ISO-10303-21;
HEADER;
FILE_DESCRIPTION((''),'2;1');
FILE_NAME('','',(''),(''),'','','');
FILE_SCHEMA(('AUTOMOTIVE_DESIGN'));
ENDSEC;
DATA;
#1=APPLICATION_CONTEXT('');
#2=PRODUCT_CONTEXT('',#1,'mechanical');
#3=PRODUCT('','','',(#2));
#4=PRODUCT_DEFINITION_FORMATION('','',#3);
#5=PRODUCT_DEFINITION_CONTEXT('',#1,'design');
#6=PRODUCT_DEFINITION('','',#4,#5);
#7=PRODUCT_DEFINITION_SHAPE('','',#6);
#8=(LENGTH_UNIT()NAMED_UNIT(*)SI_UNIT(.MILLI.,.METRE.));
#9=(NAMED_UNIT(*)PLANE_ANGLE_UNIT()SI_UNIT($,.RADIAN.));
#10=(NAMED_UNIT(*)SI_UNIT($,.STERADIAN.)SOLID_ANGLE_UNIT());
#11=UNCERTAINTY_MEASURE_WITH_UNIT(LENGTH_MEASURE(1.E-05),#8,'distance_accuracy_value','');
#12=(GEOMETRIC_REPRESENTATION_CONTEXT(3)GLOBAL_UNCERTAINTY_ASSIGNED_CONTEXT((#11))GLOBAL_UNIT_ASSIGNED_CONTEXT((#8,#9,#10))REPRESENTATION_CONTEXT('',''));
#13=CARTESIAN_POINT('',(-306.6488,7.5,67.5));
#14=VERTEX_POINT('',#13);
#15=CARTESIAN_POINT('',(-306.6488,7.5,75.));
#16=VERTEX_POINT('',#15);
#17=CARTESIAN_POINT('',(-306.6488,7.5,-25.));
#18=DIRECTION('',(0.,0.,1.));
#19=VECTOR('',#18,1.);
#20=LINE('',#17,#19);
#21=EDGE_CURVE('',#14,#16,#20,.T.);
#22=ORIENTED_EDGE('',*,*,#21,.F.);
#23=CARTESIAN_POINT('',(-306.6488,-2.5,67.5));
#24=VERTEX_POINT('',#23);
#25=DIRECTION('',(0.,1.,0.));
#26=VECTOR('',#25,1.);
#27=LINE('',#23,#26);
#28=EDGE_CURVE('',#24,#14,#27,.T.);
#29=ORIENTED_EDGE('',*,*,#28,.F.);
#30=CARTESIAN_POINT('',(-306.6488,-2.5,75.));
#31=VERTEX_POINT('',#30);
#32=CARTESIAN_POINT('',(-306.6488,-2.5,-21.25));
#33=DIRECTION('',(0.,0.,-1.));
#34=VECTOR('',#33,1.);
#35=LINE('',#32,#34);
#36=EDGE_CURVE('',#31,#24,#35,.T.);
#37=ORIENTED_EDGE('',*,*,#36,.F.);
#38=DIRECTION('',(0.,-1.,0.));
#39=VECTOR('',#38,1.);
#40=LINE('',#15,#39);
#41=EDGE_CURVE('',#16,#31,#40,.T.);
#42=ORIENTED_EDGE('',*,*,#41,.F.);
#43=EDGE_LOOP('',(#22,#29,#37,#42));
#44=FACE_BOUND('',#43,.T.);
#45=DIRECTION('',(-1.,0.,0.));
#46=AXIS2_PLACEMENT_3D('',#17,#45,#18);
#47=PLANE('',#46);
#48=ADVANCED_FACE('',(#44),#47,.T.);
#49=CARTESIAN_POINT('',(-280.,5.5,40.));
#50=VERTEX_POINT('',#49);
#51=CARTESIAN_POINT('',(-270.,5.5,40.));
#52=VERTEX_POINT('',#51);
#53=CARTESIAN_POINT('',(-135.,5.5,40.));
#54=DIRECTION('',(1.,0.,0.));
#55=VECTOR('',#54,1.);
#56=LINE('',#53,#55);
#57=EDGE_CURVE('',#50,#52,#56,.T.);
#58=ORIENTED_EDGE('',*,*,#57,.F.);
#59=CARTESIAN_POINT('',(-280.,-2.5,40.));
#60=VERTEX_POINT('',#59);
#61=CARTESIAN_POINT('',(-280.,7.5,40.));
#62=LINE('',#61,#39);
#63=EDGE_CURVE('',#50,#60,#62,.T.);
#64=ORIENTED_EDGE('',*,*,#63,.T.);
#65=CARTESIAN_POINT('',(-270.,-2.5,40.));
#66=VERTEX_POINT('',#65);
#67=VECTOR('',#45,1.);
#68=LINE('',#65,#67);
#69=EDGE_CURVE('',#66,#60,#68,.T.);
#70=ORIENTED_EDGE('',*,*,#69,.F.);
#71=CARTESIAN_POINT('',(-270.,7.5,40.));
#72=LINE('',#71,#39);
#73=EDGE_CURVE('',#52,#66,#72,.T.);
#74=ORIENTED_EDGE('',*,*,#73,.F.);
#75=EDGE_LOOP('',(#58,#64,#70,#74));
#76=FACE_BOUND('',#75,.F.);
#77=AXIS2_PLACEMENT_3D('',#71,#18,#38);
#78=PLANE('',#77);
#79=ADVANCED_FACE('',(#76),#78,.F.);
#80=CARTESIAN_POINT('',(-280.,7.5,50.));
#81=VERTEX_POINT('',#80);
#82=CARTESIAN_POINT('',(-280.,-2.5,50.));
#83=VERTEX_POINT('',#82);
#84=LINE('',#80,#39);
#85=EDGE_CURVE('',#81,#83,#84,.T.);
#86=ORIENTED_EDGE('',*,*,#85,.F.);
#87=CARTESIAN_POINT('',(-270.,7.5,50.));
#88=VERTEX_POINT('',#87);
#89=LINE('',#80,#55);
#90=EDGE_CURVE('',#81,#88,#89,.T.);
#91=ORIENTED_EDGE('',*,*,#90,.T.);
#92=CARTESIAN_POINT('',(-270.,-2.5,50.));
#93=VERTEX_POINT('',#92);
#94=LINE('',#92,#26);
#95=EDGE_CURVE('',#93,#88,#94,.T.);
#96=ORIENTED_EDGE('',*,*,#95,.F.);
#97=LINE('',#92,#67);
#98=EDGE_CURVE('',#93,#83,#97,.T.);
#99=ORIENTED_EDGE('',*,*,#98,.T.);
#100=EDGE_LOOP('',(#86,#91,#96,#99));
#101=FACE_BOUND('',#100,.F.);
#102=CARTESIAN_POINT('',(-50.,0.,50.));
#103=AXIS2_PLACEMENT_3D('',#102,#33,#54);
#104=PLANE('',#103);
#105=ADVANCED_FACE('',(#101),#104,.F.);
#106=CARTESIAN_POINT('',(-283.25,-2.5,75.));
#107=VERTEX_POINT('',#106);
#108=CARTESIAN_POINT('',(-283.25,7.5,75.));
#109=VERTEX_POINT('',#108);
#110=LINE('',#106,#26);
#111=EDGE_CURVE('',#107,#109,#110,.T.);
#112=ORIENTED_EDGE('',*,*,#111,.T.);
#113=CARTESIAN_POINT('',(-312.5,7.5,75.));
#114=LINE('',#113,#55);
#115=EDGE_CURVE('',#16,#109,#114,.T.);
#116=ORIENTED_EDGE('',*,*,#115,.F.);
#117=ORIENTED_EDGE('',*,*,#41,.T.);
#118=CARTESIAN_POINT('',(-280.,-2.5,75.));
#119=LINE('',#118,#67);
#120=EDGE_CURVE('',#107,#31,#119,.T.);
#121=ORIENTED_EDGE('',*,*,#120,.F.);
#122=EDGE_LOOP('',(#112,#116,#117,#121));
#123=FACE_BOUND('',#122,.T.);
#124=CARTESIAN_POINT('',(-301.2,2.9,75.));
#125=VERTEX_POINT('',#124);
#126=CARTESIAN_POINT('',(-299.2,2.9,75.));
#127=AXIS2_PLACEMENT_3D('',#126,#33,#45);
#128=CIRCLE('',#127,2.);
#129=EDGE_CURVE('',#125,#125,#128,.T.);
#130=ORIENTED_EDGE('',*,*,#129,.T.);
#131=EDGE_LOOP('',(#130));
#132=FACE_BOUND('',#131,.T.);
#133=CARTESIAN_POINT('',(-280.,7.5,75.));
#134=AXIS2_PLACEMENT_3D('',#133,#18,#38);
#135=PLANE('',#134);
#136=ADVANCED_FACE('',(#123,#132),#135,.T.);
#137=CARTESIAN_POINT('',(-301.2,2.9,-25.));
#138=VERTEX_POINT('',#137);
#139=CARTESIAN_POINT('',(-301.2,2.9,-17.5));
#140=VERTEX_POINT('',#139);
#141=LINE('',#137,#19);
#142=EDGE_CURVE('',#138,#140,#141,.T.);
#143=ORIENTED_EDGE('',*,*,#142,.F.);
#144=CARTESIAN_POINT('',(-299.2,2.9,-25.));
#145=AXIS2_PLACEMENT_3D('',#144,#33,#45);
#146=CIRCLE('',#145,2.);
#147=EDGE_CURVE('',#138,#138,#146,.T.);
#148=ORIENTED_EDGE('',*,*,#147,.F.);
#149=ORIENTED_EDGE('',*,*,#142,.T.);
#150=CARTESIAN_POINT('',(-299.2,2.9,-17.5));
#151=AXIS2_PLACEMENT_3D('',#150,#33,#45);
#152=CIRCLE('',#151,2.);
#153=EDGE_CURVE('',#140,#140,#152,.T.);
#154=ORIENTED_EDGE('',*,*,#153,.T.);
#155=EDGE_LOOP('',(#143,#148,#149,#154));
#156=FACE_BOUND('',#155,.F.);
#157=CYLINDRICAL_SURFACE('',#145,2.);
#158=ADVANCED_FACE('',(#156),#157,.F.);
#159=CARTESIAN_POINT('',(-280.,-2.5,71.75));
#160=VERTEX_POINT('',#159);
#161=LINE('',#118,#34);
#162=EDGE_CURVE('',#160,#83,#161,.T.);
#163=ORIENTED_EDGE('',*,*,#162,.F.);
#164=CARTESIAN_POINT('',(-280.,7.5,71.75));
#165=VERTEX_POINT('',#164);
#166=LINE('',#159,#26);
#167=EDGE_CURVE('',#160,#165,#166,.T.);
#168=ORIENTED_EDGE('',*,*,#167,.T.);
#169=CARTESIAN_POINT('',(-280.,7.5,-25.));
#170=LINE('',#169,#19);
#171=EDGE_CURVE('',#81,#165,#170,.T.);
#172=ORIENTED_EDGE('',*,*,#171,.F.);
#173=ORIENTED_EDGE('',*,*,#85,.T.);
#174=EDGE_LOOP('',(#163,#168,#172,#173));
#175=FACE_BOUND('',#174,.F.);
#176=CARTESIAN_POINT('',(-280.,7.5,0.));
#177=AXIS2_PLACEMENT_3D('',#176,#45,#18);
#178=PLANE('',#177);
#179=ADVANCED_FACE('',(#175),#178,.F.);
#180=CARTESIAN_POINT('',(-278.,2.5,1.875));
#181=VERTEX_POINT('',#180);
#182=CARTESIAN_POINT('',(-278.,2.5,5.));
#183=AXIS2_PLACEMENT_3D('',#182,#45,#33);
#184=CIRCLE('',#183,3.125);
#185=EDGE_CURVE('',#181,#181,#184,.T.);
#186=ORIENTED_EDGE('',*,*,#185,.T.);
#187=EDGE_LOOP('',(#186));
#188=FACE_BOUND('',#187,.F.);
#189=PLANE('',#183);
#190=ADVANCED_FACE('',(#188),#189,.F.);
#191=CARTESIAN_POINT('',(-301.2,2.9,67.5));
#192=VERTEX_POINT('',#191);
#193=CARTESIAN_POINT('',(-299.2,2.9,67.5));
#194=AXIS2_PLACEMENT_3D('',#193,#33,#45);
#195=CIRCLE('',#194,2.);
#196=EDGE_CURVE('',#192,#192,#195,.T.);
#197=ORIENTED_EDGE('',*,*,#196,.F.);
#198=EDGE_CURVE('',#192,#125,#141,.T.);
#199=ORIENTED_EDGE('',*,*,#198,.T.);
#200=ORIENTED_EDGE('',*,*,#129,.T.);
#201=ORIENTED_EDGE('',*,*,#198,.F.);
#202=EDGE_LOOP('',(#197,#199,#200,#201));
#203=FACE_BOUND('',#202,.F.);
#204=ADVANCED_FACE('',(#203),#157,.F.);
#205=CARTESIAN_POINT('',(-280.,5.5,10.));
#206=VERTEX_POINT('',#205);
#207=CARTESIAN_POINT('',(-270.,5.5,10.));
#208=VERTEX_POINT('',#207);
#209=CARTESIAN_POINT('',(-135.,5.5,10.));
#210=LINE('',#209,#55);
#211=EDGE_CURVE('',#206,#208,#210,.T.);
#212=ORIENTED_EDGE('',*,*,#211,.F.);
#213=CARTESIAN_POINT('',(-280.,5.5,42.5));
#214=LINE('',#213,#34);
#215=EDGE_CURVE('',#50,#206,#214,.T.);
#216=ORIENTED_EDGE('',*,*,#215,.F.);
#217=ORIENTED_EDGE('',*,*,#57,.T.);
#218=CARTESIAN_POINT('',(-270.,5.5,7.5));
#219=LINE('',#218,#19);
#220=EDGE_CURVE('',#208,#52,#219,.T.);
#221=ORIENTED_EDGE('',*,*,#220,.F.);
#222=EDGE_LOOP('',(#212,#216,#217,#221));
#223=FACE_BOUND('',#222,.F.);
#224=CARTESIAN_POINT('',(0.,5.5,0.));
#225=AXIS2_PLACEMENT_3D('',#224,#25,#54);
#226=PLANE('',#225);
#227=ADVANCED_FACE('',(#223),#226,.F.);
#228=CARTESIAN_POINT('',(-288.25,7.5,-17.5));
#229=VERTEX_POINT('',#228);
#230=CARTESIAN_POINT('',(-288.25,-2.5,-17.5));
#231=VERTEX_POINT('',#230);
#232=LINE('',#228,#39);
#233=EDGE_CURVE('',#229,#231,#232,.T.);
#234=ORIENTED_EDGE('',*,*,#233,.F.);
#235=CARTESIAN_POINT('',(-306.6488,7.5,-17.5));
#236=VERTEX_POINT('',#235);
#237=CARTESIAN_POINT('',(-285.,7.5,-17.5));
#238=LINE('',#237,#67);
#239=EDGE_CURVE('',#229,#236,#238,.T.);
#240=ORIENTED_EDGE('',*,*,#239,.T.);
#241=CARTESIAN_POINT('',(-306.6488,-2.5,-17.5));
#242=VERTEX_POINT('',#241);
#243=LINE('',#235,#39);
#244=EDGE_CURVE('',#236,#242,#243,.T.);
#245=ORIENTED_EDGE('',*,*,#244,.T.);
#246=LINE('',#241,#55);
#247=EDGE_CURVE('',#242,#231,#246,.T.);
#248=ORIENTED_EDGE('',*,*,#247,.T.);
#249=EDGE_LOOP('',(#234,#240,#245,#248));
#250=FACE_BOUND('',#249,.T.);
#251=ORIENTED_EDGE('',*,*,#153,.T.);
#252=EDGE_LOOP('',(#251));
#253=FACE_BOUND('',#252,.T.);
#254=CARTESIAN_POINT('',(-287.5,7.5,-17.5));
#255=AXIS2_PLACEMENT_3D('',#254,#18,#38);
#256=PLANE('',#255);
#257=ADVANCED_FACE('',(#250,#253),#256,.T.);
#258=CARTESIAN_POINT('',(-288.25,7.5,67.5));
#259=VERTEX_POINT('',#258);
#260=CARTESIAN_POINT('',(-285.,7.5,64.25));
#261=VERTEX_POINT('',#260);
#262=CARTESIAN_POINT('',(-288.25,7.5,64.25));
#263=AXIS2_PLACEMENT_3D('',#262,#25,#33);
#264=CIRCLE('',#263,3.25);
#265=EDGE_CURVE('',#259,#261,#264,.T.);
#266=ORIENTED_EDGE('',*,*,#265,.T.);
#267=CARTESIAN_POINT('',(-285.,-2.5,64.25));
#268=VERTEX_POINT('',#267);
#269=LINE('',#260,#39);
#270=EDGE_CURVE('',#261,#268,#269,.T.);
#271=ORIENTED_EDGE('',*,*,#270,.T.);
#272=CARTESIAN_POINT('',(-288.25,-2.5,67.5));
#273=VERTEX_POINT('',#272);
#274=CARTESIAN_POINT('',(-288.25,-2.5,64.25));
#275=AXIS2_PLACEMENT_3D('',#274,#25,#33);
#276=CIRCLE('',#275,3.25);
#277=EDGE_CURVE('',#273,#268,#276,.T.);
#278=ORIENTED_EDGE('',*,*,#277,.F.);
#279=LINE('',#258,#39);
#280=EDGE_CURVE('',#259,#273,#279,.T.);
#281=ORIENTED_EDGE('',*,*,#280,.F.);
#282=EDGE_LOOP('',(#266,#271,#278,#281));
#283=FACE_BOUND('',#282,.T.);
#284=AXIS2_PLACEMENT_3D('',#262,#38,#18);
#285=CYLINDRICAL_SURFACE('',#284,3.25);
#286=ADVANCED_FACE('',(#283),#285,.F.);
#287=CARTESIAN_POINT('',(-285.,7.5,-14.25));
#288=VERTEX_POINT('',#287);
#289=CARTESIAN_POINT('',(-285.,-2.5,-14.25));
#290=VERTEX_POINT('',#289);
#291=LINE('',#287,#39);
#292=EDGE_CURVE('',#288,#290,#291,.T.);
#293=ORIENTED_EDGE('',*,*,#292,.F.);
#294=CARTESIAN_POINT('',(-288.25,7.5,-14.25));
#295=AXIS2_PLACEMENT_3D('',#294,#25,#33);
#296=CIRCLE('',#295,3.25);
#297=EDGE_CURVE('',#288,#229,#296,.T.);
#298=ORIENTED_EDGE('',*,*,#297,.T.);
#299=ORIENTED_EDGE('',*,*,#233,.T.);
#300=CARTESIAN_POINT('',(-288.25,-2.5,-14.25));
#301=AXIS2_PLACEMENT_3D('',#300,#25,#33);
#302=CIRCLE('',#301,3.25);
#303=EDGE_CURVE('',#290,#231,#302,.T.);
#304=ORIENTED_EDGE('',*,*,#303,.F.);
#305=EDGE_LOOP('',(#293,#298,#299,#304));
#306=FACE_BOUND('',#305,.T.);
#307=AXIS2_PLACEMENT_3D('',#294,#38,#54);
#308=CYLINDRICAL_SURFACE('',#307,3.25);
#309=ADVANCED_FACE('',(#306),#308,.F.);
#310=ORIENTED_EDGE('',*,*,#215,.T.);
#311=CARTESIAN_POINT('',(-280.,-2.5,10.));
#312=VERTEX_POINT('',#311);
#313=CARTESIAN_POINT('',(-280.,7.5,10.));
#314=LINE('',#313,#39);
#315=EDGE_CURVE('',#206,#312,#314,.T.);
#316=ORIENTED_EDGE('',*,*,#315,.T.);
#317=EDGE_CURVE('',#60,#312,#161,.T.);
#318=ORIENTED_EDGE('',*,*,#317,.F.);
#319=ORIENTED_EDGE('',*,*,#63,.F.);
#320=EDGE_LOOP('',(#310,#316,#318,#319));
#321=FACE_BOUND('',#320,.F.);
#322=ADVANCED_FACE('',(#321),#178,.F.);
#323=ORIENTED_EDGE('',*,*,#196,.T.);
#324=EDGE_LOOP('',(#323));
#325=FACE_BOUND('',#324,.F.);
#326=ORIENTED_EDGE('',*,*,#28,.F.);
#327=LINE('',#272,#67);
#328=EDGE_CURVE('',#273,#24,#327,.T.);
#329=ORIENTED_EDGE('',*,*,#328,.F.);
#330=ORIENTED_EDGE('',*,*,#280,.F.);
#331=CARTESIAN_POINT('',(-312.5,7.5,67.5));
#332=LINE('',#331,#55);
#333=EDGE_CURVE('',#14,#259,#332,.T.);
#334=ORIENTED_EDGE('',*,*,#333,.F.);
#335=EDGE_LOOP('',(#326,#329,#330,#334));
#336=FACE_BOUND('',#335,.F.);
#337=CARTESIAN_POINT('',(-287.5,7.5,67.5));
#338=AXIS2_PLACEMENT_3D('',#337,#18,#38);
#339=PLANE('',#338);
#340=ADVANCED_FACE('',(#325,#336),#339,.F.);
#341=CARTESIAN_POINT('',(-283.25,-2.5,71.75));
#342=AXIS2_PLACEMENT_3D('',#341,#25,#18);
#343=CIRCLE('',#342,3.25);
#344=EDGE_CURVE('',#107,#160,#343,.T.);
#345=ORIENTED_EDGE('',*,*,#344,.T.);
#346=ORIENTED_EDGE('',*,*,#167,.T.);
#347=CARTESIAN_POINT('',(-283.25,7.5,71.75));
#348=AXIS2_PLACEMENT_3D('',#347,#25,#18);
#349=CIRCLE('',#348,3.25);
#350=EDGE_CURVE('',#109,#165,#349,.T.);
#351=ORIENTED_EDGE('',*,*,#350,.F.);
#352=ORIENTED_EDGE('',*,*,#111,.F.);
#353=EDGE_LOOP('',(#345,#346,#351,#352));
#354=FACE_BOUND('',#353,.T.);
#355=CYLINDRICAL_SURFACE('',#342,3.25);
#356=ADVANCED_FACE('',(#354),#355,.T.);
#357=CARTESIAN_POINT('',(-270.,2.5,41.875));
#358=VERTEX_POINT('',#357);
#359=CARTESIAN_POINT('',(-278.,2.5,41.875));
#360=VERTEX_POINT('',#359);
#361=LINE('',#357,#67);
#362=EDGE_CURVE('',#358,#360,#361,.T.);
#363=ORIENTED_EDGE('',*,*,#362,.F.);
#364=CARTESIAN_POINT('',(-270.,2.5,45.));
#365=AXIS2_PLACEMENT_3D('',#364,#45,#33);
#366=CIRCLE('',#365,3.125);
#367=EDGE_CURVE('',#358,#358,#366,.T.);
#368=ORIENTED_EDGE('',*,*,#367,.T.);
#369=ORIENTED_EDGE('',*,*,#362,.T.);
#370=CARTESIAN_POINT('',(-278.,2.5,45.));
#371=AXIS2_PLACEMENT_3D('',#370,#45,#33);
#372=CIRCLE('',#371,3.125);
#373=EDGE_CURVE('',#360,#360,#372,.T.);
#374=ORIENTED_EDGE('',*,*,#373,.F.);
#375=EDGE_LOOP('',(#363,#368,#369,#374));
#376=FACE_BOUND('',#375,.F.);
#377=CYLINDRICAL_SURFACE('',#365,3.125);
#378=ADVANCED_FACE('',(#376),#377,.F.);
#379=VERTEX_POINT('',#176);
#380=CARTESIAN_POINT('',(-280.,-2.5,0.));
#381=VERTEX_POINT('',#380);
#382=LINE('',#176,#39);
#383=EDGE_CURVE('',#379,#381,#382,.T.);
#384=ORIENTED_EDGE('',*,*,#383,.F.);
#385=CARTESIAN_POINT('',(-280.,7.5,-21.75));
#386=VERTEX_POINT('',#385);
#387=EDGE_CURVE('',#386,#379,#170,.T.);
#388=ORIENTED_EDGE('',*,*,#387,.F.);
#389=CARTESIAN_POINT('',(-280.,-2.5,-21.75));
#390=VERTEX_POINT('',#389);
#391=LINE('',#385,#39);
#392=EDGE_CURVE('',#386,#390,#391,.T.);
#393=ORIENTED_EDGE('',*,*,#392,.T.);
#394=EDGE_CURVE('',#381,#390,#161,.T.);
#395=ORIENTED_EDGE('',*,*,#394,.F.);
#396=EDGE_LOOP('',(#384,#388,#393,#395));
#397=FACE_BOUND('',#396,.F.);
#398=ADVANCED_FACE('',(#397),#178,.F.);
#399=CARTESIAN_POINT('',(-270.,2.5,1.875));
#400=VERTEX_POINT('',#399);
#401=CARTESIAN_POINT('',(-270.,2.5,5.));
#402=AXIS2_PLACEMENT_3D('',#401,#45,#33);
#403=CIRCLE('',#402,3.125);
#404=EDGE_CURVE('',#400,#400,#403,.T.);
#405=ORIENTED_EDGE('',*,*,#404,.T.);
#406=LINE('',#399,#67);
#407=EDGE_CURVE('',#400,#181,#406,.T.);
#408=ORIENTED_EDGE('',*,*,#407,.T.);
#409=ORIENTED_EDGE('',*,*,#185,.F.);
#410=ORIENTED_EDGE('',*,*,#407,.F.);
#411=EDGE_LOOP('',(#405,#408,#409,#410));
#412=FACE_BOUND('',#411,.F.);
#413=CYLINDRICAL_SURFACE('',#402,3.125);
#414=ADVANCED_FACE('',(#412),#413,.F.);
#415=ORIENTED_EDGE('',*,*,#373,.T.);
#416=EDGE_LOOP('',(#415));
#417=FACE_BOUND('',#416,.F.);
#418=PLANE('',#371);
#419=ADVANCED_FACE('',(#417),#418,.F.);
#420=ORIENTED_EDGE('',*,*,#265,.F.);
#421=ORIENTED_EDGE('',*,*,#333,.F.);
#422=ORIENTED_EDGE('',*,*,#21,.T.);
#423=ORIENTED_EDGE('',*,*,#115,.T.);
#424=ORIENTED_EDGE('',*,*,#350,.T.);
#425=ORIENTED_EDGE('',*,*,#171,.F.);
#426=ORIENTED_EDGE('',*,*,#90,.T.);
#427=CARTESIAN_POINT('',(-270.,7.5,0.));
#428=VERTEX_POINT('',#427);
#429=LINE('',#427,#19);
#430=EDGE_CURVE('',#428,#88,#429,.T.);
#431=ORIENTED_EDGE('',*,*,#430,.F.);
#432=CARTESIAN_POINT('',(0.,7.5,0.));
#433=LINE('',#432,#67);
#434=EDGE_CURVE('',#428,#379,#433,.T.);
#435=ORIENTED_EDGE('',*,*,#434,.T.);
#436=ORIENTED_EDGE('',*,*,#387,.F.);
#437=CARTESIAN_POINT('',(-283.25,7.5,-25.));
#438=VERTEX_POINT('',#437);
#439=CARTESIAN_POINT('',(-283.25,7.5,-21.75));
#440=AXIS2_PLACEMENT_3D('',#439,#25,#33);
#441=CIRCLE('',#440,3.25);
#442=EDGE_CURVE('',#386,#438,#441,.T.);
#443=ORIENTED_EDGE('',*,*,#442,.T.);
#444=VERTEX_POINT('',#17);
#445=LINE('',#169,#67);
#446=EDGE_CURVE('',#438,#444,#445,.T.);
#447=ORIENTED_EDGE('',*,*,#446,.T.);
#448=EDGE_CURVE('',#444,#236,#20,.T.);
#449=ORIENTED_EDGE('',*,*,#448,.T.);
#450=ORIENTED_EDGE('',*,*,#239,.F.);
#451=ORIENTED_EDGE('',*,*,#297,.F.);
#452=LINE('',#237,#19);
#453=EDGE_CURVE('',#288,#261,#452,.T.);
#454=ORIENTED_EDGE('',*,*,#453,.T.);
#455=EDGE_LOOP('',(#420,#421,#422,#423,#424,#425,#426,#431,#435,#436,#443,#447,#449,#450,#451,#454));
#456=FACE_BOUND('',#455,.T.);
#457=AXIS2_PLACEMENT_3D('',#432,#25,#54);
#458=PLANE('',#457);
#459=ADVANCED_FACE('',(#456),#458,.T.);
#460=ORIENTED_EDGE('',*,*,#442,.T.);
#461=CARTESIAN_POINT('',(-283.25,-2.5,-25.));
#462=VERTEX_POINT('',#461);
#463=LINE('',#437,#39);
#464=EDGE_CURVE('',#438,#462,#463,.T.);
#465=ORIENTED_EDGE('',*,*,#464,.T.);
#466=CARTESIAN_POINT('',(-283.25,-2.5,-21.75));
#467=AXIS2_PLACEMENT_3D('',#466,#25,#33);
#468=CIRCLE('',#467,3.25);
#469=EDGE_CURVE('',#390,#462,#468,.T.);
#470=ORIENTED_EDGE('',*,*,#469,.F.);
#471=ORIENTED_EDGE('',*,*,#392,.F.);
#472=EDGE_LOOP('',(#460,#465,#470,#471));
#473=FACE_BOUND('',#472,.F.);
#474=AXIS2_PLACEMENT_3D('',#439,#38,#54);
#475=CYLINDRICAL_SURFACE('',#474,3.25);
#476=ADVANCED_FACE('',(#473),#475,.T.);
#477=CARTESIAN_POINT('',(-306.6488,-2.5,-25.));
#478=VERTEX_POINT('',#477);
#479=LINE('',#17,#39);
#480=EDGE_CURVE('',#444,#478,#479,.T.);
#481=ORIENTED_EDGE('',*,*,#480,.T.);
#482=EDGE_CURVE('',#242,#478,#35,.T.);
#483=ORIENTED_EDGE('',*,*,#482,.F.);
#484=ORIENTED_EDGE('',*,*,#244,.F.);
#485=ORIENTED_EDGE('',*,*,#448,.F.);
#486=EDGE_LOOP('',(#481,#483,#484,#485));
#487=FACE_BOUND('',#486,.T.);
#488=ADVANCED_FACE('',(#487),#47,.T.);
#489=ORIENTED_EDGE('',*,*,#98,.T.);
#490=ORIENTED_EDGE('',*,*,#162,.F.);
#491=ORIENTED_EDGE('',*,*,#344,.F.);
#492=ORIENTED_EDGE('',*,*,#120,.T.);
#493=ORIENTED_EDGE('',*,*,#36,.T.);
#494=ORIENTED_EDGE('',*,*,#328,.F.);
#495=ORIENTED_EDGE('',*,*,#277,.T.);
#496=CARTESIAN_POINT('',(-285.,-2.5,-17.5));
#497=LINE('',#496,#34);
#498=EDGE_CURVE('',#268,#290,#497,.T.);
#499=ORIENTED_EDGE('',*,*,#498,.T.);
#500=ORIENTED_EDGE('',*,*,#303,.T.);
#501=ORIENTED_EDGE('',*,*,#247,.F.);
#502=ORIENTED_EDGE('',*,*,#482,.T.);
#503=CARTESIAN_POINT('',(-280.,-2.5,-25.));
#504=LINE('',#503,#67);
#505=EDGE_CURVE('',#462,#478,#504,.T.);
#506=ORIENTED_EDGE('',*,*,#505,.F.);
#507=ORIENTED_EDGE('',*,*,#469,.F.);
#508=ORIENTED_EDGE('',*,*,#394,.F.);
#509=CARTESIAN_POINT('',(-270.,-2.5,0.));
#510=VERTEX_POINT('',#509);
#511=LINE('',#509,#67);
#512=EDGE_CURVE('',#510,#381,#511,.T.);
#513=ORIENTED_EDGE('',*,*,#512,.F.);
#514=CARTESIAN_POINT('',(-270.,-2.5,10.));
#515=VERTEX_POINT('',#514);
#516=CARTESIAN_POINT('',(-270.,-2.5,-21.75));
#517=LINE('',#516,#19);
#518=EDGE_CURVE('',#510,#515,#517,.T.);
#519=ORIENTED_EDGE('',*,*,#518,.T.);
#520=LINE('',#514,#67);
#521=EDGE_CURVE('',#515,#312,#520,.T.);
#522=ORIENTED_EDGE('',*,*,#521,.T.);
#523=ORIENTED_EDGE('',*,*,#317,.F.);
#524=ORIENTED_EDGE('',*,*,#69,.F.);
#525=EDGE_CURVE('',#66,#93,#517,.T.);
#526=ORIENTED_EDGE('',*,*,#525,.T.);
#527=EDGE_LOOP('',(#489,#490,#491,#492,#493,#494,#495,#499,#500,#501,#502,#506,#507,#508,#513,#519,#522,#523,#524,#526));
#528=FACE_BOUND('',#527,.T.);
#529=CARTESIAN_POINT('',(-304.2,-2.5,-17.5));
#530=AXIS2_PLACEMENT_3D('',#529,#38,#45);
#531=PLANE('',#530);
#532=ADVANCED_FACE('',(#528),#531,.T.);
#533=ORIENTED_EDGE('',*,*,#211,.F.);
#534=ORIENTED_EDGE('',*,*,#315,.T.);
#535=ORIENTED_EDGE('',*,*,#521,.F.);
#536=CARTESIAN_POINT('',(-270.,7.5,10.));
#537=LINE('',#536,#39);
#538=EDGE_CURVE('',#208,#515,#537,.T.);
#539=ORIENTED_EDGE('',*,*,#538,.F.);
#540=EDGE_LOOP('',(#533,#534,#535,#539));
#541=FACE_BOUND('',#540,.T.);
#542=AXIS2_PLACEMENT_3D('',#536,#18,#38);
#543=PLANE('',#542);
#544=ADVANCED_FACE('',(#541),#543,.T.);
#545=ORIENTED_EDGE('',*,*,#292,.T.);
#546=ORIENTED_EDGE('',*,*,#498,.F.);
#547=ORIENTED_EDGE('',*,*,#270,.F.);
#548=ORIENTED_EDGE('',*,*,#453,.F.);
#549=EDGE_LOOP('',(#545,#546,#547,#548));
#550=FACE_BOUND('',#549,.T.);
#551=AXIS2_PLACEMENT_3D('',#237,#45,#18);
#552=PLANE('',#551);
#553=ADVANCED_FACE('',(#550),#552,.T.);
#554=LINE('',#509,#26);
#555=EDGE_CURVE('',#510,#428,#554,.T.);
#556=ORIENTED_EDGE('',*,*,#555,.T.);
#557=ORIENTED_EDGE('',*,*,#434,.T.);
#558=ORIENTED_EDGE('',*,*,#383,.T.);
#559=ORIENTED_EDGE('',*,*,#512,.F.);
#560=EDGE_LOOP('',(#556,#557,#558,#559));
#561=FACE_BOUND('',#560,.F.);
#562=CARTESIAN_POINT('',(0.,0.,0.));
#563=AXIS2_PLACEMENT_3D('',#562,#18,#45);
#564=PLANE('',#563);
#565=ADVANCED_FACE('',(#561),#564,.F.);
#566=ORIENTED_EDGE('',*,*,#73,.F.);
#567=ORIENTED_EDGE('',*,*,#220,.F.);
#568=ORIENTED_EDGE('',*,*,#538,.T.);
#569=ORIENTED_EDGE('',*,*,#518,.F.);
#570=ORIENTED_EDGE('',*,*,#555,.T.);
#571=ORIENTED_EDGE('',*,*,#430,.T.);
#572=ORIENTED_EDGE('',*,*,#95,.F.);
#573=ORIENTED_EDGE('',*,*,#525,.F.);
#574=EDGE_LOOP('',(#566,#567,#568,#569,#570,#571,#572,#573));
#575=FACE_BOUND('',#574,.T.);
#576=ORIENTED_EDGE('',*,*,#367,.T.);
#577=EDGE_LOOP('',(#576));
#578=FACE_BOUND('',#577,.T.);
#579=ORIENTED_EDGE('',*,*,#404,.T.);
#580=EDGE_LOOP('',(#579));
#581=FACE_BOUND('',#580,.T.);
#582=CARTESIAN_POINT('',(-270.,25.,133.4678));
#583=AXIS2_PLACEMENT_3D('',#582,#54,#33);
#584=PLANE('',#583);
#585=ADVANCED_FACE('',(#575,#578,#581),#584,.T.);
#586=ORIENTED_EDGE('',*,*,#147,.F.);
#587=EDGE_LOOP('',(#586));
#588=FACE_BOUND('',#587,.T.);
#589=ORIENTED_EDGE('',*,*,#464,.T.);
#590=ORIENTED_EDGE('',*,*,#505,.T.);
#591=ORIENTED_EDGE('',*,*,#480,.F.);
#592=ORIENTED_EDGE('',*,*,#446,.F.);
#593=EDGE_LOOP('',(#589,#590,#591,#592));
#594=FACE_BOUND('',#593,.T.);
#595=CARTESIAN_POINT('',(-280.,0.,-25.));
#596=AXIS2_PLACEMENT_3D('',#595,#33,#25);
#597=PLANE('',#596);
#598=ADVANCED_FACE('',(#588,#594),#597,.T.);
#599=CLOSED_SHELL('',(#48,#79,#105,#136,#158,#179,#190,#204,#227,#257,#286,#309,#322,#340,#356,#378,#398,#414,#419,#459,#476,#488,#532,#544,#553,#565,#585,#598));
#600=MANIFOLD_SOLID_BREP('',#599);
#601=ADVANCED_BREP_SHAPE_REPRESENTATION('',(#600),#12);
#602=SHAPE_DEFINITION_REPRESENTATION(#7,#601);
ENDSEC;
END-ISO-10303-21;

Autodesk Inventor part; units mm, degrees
ref_plane "YZ Plane" through (0, 0, 0) normal (1, 0, 0) x (0, 1, 0)
ref_plane "XZ Plane" through (0, 0, 0) normal (0, 1, 0) x (-1, 0, 0)
ref_plane "XY Plane" through (0, 0, 0) normal (0, 0, 1) x (1, 0, 0)
sketch "Sketch1" plane through (0, 0, 0) normal (0, 1, 0) x (-1, 0, 0)
  line L0 (0, 0) -> (50, 0)
  line L1 (50, 0) -> (50, 50)
  line L2 (50, 50) -> (0, 50)
  line L3 (0, 50) -> (0, 0)
  line L4 (50, 50) -> (290, 50)
  line L5 (290, 50) -> (290, 42.5)
  line L6 (290, 42.5) -> (50, 42.5)
  line L7 (50, 42.5) -> (50, 50)
  line L8 (50, 0) -> (290, 0)
  line L9 (290, 0) -> (290, 7.5)
  line L10 (290, 7.5) -> (50, 7.5)
  line L11 (50, 7.5) -> (50, 0)
  dimension "d0" = 50
  dimension "d1" = 50
  dimension "d2" = 240
  dimension "d3" = 7.5
  dimension "d4" = 7.5
extrude "Extrusion1" add sketch "Sketch1" along normal blind 7.5
sketch "Sketch2" plane through (0, 7.5, 0) normal (0, 1, 0) x (1, 0, 0)
  line L0 (0, -50) -> (0, 0) projected
  point P0 (0, -25)
hole "Hole1" at (0, 7.5, 25) direction (0, -1, 0) diameter 6.35 end through all
sketch "Sketch3" plane through (0, 7.5, 0) normal (0, 1, 0) x (1, 0, 0)
  line L0 (-3.175, -50) -> (-3.175, 0) construction
  line L1 (-3.175, -50) -> (-28.175, -50) construction
  line L2 (-28.175, -50) -> (-28.175, 0) construction
  line L3 (-28.175, 0) -> (-3.175, 0) construction
  point P0 (0, 0)
  point P1 (-7.175, -4)
  point P2 (-24.175, -46)
  dimension "d14" = 25
hole "Hole2" at (-7.175, 7.5, 4) at (-24.175, 7.5, 46) direction (0, -1, 0) diameter 3.3 end through all
sketch "Sketch4" plane through (0, 7.5, 0) normal (0, 1, 0) x (1, 0, 0)
  arc A0 (0, -21.825) -> (0, -28.175) centre (0, -25) ccw construction
  line L0 (-3.175, -25) -> (-28.175, -25) construction
  line L1 (-3.175, -25) -> (21.825, -25) construction
  line L2 (-290, -50) -> (0, -50) construction
  line L3 (-28.175, -50) -> (-28.175, 0) construction
  line L4 (-50, -7.5) -> (-50, -42.5) construction
  line L5 (-50, -42.5) -> (-45, -42.5) construction
  line L6 (-45, -42.5) -> (-45, -32.5) construction
  line L7 (-45, -32.5) -> (-50, -32.5) construction
  line L8 (-50, -32.5) -> (-50, -42.5) construction
  line L9 (-45, -32.5) -> (-40, -32.5)
  line L10 (-40, -32.5) -> (-40, -42.5)
  line L11 (-40, -42.5) -> (-45, -42.5)
  line L12 (-45, -42.5) -> (-45, -32.5)
  point P0 (0, 0)
  dimension "d22" = 25
  dimension "d23" = 180
  dimension "d24" = 5
  dimension "d25" = 10
  dimension "d26" = 5
extrude "Extrusion2" add sketch "Sketch4" along normal blind 17.5
sketch "Sketch5" plane through (0, 7.5, 0) normal (0, 1, 0) x (1, 0, 0)
  line L0 (-85, -7.5) -> (-85, -42.5)
  line L1 (-127.5, -7.5) -> (-127.5, -42.5)
  line L2 (-92.5, -42.5) -> (-92.5, -7.5)
  line L3 (-135, -7.5) -> (-170, -7.5) construction
  line L4 (-170, -7.5) -> (-170, -42.5) construction
  line L5 (-170, -42.5) -> (-135, -42.5) construction
  line L6 (-135, -42.5) -> (-135, -7.5) construction
  line L7 (-177.5, -7.5) -> (-212.5, -7.5) construction
  line L8 (-212.5, -7.5) -> (-212.5, -42.5) construction
  line L9 (-212.5, -42.5) -> (-177.5, -42.5) construction
  line L10 (-177.5, -42.5) -> (-177.5, -7.5) construction
  line L11 (-220, -7.5) -> (-255, -7.5) construction
  line L12 (-255, -7.5) -> (-255, -42.5) construction
  line L13 (-255, -42.5) -> (-220, -42.5) construction
  line L14 (-220, -42.5) -> (-220, -7.5) construction
  line L15 (-85, -7.5) -> (-92.5, -7.5) construction
  line L16 (-92.5, -7.5) -> (-92.5, -42.5) construction
  line L17 (-92.5, -42.5) -> (-85, -42.5) construction
  line L18 (-85, -42.5) -> (-85, -7.5) construction
  line L19 (-127.5, -7.5) -> (-135, -7.5) construction
  line L20 (-135, -7.5) -> (-135, -42.5) construction
  line L21 (-135, -42.5) -> (-127.5, -42.5) construction
  line L22 (-127.5, -42.5) -> (-127.5, -7.5) construction
  line L23 (-170, -7.5) -> (-177.5, -7.5) construction
  line L24 (-177.5, -7.5) -> (-177.5, -42.5) construction
  line L25 (-177.5, -42.5) -> (-170, -42.5) construction
  line L26 (-170, -42.5) -> (-170, -7.5) construction
  line L27 (-212.5, -7.5) -> (-220, -7.5) construction
  line L28 (-220, -7.5) -> (-220, -42.5) construction
  line L29 (-220, -42.5) -> (-212.5, -42.5) construction
  line L30 (-212.5, -42.5) -> (-212.5, -7.5) construction
  line L31 (-220, -7.5) -> (-212.5, -7.5)
  line L32 (-212.5, -7.5) -> (-212.5, -42.5)
  line L33 (-212.5, -42.5) -> (-220, -42.5)
  line L34 (-220, -42.5) -> (-220, -7.5)
  line L35 (-177.5, -7.5) -> (-170, -7.5)
  line L36 (-170, -7.5) -> (-170, -42.5)
  line L37 (-170, -42.5) -> (-177.5, -42.5)
  line L38 (-177.5, -42.5) -> (-177.5, -7.5)
  line L39 (-135, -7.5) -> (-127.5, -7.5)
  line L40 (-127.5, -7.5) -> (-127.5, -42.5)
  line L41 (-127.5, -42.5) -> (-135, -42.5)
  line L42 (-135, -42.5) -> (-135, -7.5)
  line L43 (-92.5, -7.5) -> (-85, -7.5)
  line L44 (-85, -7.5) -> (-85, -42.5)
  line L45 (-85, -42.5) -> (-92.5, -42.5)
  line L46 (-92.5, -42.5) -> (-92.5, -7.5)
  point P0 (0, 0)
  point P1 (-50, -7.5)
  dimension "d30" = 35
  dimension "d31" = 35
  dimension "d32" = 35
  dimension "d33" = 35
  dimension "d34" = 35
  dimension "d35" = 35
extrude "Extrusion3" add sketch "Sketch5" against normal blind 2
sketch "Sketch6" plane through (0, 7.5, 0) normal (0, 1, 0) x (1, 0, 0)
  line L0 (-290, 0) -> (-290, -7.5) projected
  line L1 (-290, -50) -> (0, -50) projected
  line L2 (-290, 0) -> (-280, 0)
  line L3 (-280, 0) -> (-280, -50)
  line L4 (-280, -50) -> (-290, -50)
  line L5 (-290, -50) -> (-290, 0)
  point P0 (0, 0)
  dimension "d38" = 10
extrude "Extrusion4" cut sketch "Sketch6" against normal blind 7.5
sketch "Sketch7" plane through (-280, 7.5, 0) normal (-1, 0, 0) x (0, 0, 1)
  point P0 (0, -7.5)
sketch "Sketch8" plane through (-280, 7.5, 0) normal (-1, 0, 0) x (0, 0, 1)
  line L0 (-25, 0) -> (75, 0)
  line L1 (75, 0) -> (75, -7.5)
  line L2 (75, -7.5) -> (-25, -7.5)
  line L3 (-25, -7.5) -> (-25, 0)
  line L4 (-25, 0) -> (75, 0)
  line L5 (75, 0) -> (75, -10)
  line L6 (75, -10) -> (-25, -10)
  line L7 (-25, -10) -> (-25, 0)
  point P0 (0, -7.5)
  dimension "d41" = 100
  dimension "d42" = 10
extrude "Extrusion5" add sketch "Sketch8" along normal blind 7.5
sketch "Sketch9" plane through (-287.5, 7.5, 0) normal (-1, 0, 0) x (0, 0, 1)
  line L0 (75, 0) -> (-25, 0) projected
  line L1 (-25, -10) -> (75, -10) projected
  line L2 (-25, 0) -> (-17.5, 0)
  line L3 (-17.5, 0) -> (-17.5, -10)
  line L4 (-17.5, -10) -> (-25, -10)
  line L5 (-25, -10) -> (-25, 0)
  line L6 (75, 0) -> (67.5, 0)
  line L7 (67.5, 0) -> (67.5, -10)
  line L8 (67.5, -10) -> (75, -10)
  line L9 (75, -10) -> (75, 0)
  point P0 (0, -7.5)
  dimension "d45" = 7.5
  dimension "d46" = 7.5
extrude "Extrusion6" add sketch "Sketch9" along normal blind 25 contours L9 L1 L7 L0 | L3 L1 L5 L0
sketch "Sketch10" plane through (-287.5, -2.5, -17.5) normal (0, 0, 1) x (1, 0, 0)
  line L0 (0, 0) -> (-25, 0) construction
  line L1 (0, 0) -> (-3, 0) construction
  line L2 (-3, 0) -> (-6.2, 0)
  line L3 (-6.2, 0) -> (-6.2, 2.1)
  line L4 (-6.2, 2.1) -> (-3, 2.1)
  line L5 (-3, 2.1) -> (-3, 0)
  line L6 (-6.2, 2.1) -> (-11.7, 2.1) construction
  line L7 (-11.7, 2.1) -> (-11.7, 5.4) construction
  point P0 (287.5, 2.5)
  dimension "d49" = 3
  dimension "d50" = 3.2
  dimension "d51" = 2.1
  dimension "d52" = 5.5
  dimension "d53" = 3.3
extrude "Extrusion7" add sketch "Sketch10" along normal blind 92.5
sketch "Sketch11" plane through (-287.5, -2.5, -17.5) normal (0, 0, 1) x (1, 0, 0)
  line L0 (-6.2, 2.1) -> (-3, 2.1) construction
  line L1 (-6.2, 2.1) -> (-11.7, 2.1) construction
  line L2 (-11.7, 2.1) -> (-11.7, 5.4) construction
  circle A0 centre (-11.7, 5.4) radius 2.125
  point P0 (287.5, 2.5)
  dimension "d56" = 5.5
  dimension "d57" = 3.3
  dimension "d58" = 4.25
extrude "Extrusion8" cut sketch "Sketch11" along normal mid plane 241
sketch "Sketch12" plane through (-287.5, -2.5, -17.5) normal (0, 0, 1) x (1, 0, 0)
  circle A0 centre (-11.7, 5.4) radius 2.125 construction
  line L0 (-11.7, 5.4) -> (-11.7, 0.96) construction
  line L1 (-11.7, 0.96) -> (-16.7, 0.96) construction
  line L2 (-6.2, 0) -> (-25, 0) projected
  line L3 (-16.7, 0.96) -> (-19.2, 0.96)
  line L4 (-19.2, 0.96) -> (-19.2, 0)
  line L5 (-19.2, 0) -> (-16.7, 0)
  line L6 (-16.7, 0) -> (-16.7, 0.96)
  point P0 (287.5, 2.5)
  dimension "d61" = 4.44
  dimension "d62" = 5
  dimension "d63" = 2.5
extrude "Extrusion9" add sketch "Sketch12" along normal blind 91.25
sketch "Sketch13" plane through (-293.7, -0.4, -17.5) normal (0, 1, 0) x (1, 0, 0)
  line L0 (3.2, 0) -> (3.2, -85) construction
  line L1 (3.2, 0) -> (3.2, -30) construction
  line L2 (0, 0) -> (0, -85) construction
  line L3 (3.2, -30) -> (0, -30) construction
  line L4 (0, -30) -> (0, -36.35) construction
  line L5 (0, -36.35) -> (3.2, -36.35) construction
  line L6 (3.2, -36.35) -> (3.2, -30) construction
  line L7 (0, -30) -> (3.2, -30)
  line L8 (3.2, -30) -> (3.2, -36.35)
  line L9 (3.2, -36.35) -> (0, -36.35)
  line L10 (0, -36.35) -> (0, -30)
  point P0 (293.7, -17.5)
  dimension "d66" = 30
  dimension "d67" = 6.35
extrude "Extrusion10" add sketch "Sketch13" along normal blind 3.8
sketch "Sketch14" plane through (0, 7.5, 0) normal (0, 1, 0) x (1, 0, 0)
  line L0 (-287.5, 17.5) -> (-287.5, -67.5) projected
  line L1 (-287.5, 17.5) -> (-285, 17.5)
  line L2 (-285, 17.5) -> (-285, -67.5)
  line L3 (-285, -67.5) -> (-287.5, -67.5)
  line L4 (-287.5, -67.5) -> (-287.5, 17.5)
  point P0 (0, 0)
  dimension "d70" = 2.5
extrude "Extrusion11" cut sketch "Sketch14" against normal blind 14.55
sketch "Sketch15" plane through (0, 7.5, 0) normal (0, 1, 0) x (1, 0, 0)
  line L0 (-312.5, 17.5) -> (-312.5, 25) projected
  line L1 (-280, -75) -> (-312.5, -75) projected
  line L2 (-312.5, 25) -> (-306.6488, 25)
  line L3 (-306.6488, 25) -> (-306.6488, -75)
  line L4 (-306.6488, -75) -> (-312.5, -75)
  line L5 (-312.5, -75) -> (-312.5, 25)
  point P0 (0, 0)
extrude "Extrusion12" cut sketch "Sketch15" against normal blind 14.55
fillet "Fillet1" radius 0.1 1 edges at (-301.325, 2.9, -17.5)
fillet "Fillet2" radius 0.1 1 edges at (-301.325, 2.9, 67.5)
fillet "Fillet3" radius 3.25 1 edges at (-280, 2.5, 75)
fillet "Fillet4" radius 3.25 1 edges at (-285, 2.5, 67.5)
fillet "Fillet5" radius 3.25 1 edges at (-280, 2.5, -25)
fillet "Fillet6" radius 3.25 1 edges at (-285, 2.5, -17.5)
sketch "Sketch16" plane through (0, 7.5, 0) normal (0, 1, 0) x (1, 0, 0)
  line L0 (-220, -42.5) -> (-220, -7.5) construction
  line L1 (-220, -42.5) -> (-280, -42.5) construction
  line L2 (-220, -7.5) -> (-255, -7.5) construction
  line L3 (-255, -7.5) -> (-255, -42.5) construction
  line L4 (-255, -42.5) -> (-220, -42.5) construction
  line L5 (-220, -42.5) -> (-220, -7.5) construction
  line L6 (-280, -7.5) -> (-280, 0) projected
  line L7 (-280, -7.5) -> (-270, -7.5)
  line L8 (-270, -7.5) -> (-270, -42.5)
  line L9 (-270, -42.5) -> (-280, -42.5)
  line L10 (-280, -42.5) -> (-280, -7.5)
  point P0 (0, 0)
  dimension "d81" = 35
  dimension "d82" = 10
extrude "Extrusion13" add sketch "Sketch16" against normal blind 2
sketch "Sketch17" plane through (0, 7.5, 0) normal (0, 1, 0) x (1, 0, 0)
  point P0 (0, 0)
sketch "Sketch18" plane through (0, 7.5, 0) normal (0, 1, 0) x (1, 0, 0)
  line L0 (-270, -7.5) -> (-270, -42.5) construction
  line L1 (-285, -64.25) -> (-285, 14.25) construction
  line L2 (-280, -7.5) -> (-280, 0) construction
  line L3 (-270, -7.5) -> (-280, -7.5) construction
  line L4 (-275, -7.5) -> (-275, -42.5) construction
  line L5 (-50, -42.5) -> (-280, -42.5) construction
  circle A0 centre (-275, -12.5) radius 1.8 construction
  circle A1 centre (-275, -37.5) radius 1.8 construction
  circle A2 centre (-275, -12.5) radius 1.8
  circle A3 centre (-275, -37.5) radius 1.8
  point P0 (0, 0)
  dimension "d85" = 3.6
  dimension "d86" = 3.6
hole "Hole3" at (-275, 7.5, 12.5) at (-275, 7.5, 37.5) direction (0, -1, 0) diameter 3.3 depth 15 tip angle 118
sketch "Sketch19" plane through (0, 7.5, 0) normal (0, 1, 0) x (1, 0, 0)
  circle A0 centre (-275, -12.5) radius 1.65 construction
  line L0 (-275, -12.5) -> (-212.5, -12.5) construction
  line L1 (-212.5, -7.5) -> (-212.5, -42.5) construction
  circle A1 centre (-275, -37.5) radius 1.65 construction
  line L2 (-275, -37.5) -> (-212.5, -37.5) construction
  line L3 (-220, -42.5) -> (-220, -7.5) construction
  line L4 (-220, -12.5) -> (-212.5, -12.5) construction
  line L5 (-216.25, -12.5) -> (-216.25, -37.5) construction
  point P0 (0, 0)
hole "Hole4" at (-216.25, 7.5, 12.5) at (-216.25, 7.5, 37.5) direction (0, -1, 0) diameter 3.3 depth 15 tip angle 118
sketch "Sketch20" plane through (-45, 7.5, 32.5) normal (-1, 0, 0) x (0, 0, 1)
  line L0 (10, 17.5) -> (0, 17.5) construction
  line L1 (5, 17.5) -> (5, -0.1335) construction
  line L2 (10, 0) -> (10, 17.5) construction
  line L3 (10, 12.5) -> (5, 12.5) construction
  circle A0 centre (5, 12.5) radius 3
  point P0 (-32.5, -7.5)
  dimension "d101" = 6
extrude "Extrusion14" cut sketch "Sketch20" against normal blind 20
sketch "Sketch21" plane through (0, 7.5, 0) normal (0, 1, 0) x (1, 0, 0)
  line L0 (-306.6488, 17.5) -> (-306.6488, -67.5) projected
  line L1 (-306.6488, 17.5) -> (-288.25, 17.5) projected
  line L2 (-306.6488, -67.5) -> (-288.25, -67.5)
  line L3 (-288.25, -67.5) -> (-288.25, 17.5)
  line L4 (-288.25, 17.5) -> (-306.6488, 17.5)
  line L5 (-306.6488, 17.5) -> (-306.6488, -67.5)
  point P0 (0, 0)
extrude "Extrusion15" cut sketch "Sketch21" against normal blind 10
sketch "Sketch22" plane through (0, 7.5, 0) normal (0, 1, 0) x (1, 0, 0)
  line L0 (-280, -50) -> (0, -50) projected
  line L1 (0, 0) -> (-280, 0) projected
  line L2 (-280, -50) -> (-270.5687, -50)
  line L3 (-270.5687, -50) -> (-270.5687, 0)
  line L4 (-270.5687, 0) -> (-280, 0)
  line L5 (-280, 0) -> (-280, -50)
  line L6 (-50, -42.5) -> (-280, -42.5) projected
  line L7 (-219.3019, -42.5) -> (-213.3073, -42.5)
  line L8 (-213.3073, -42.5) -> (-213.3073, -8.284)
  line L9 (-213.3073, -8.284) -> (-219.3019, -8.284)
  line L10 (-219.3019, -8.284) -> (-219.3019, -42.5)
extrude "Extrusion16" add sketch "Sketch22" against normal blind 2
sketch "Sketch23" plane through (-306.6488, -2.5, -25) normal (0, 0, -1) x (-1, 0, 0)
  circle A0 centre (-7.4488, 5.4) radius 2.125 projected
  circle A1 centre (-7.4488, 5.4) radius 2
  circle A2 centre (-7.4488, 5.4) radius 2.4429
  point P0 (-306.6488, 2.5)
  dimension "d108" = 4
extrude "Extrusion17" add sketch "Sketch23" against normal blind 100 contours A0 | A2
sketch "Sketch24" plane through (0, 7.5, 0) normal (0, 1, 0) x (1, 0, 0)
  line L0 (-288.25, -67.5) -> (-306.6488, -67.5) projected
  arc A0 (-285, 14.25) -> (-288.25, 17.5) centre (-288.25, 14.25) ccw projected
  line L1 (-306.6488, -67.5) -> (-288.25, -67.5)
  line L2 (-288.25, -67.5) -> (-288.25, 17.5)
  line L3 (-288.25, 17.5) -> (-306.6488, 17.5)
  line L4 (-306.6488, 17.5) -> (-306.6488, -67.5)
  point P0 (0, 0)
extrude "Extrusion18" cut sketch "Sketch24" against normal blind 100
sketch "Sketch25" plane through (0, 7.5, 0) normal (0, 1, 0) x (1, 0, 0)
  line L0 (-50, -42.5) -> (-280, -42.5) projected
  line L1 (-280, -7.5) -> (-50, -7.5) projected
  line L2 (-50, -42.5) -> (-55, -42.5)
  line L3 (-55, -42.5) -> (-55, -7.5)
  line L4 (-55, -7.5) -> (-50, -7.5)
  line L5 (-50, -7.5) -> (-50, -42.5)
  point P0 (0, 0)
  dimension "d113" = 5
extrude "Extrusion19" add sketch "Sketch25" against normal blind 2
sketch "Sketch26" plane through (0, 7.5, 0) normal (0, 1, 0) x (1, 0, 0)
  line L0 (-55, -42.5) -> (-85, -42.5) construction
  line L1 (-55, -42.5) -> (-50, -42.5) construction
  line L2 (-55, -42.5) -> (-50, -42.5) construction
  line L3 (-50, -42.5) -> (-50, -7.5) construction
  line L4 (-50, -42.5) -> (-50, -7.5) construction
  circle A0 centre (-50, -37.5) radius 1.65 construction
  circle A1 centre (-50, -12.5) radius 1.65 construction
  circle A2 centre (-50, -37.5) radius 1.65
  circle A3 centre (-50, -12.5) radius 1.65
  line L5 (-50, -37.5) -> (-92.5, -37.5) construction
  line L6 (-92.5, -42.5) -> (-92.5, -7.5) construction
  line L7 (-50, -12.5) -> (-92.5, -12.5) construction
  line L8 (-92.5, -37.5) -> (-85, -37.5) construction
  line L9 (-85, -7.5) -> (-85, -42.5) construction
  line L10 (-88.75, -37.5) -> (-88.75, -12.5) construction
  circle A4 centre (-88.75, -37.5) radius 1.65
  circle A5 centre (-88.75, -12.5) radius 1.65
  point P0 (0, 0)
  dimension "d116" = 3.3
  dimension "d117" = 3.3
  dimension "d118" = 3.3
  dimension "d119" = 3.3
extrude "Extrusion20" cut sketch "Sketch26" against normal blind 2
sketch "Sketch27" plane through (0, 5.5, 0) normal (0, -1, 0) x (1, 0, 0)
  line L0 (-50, 7.5) -> (-55, 7.5) projected
  line L1 (-55, 7.5) -> (-46.6169, 7.5)
  line L2 (-46.6169, 7.5) -> (-46.6169, 42.5)
  line L3 (-46.6169, 42.5) -> (-55, 42.5)
  line L4 (-55, 42.5) -> (-55, 7.5)
  point P0 (0, 0)
extrude "Extrusion21" add sketch "Sketch27" along normal blind 5.5
sketch "Sketch28" plane through (0, 7.5, 0) normal (0, 1, 0) x (1, 0, 0)
  circle A0 centre (-50, -12.5) radius 1.65 projected
  circle A1 centre (-50, -37.5) radius 1.65 projected
  point P0 (0, 0)
hole "Hole5" at (-50, 7.5, 12.5) at (-50, 7.5, 37.5) direction (0, -1, 0) diameter 3.3 depth 8 tip angle 118
sketch "Sketch29" plane through (0, 7.5, 0) normal (0, 1, 0) x (1, 0, 0)
  circle A0 centre (-7.175, -4) radius 1.65 construction
  circle A1 centre (-24.175, -46) radius 1.65 construction
  line L0 (-7.175, -4) -> (-24.175, -46) construction
  line L1 (-7.175, -4) -> (-7.175, -46) construction
  line L2 (-7.175, -46) -> (-24.175, -46) construction
  line L3 (-7.175, -25) -> (-25.825, -25) construction
  line L4 (-25.825, -25) -> (-25.825, -46) construction
  line L5 (-16.5, -25) -> (-25.825, -25) construction
  line L6 (-24.175, -46) -> (-24.175, -25) construction
  line L7 (-15.675, -46) -> (-15.675, -4) construction
  line L8 (-40, -32.5) -> (-40, -42.5) construction
  line L9 (-40, -42.5) -> (-24.175, -42.5) construction
  line L10 (-24.175, -42.5) -> (-24.175, -46) construction
  line L11 (-15.675, -25) -> (-15.675, -46) construction
  line L12 (-15.675, -46) -> (-15.675, -4) construction
  circle A2 centre (-15.675, -46) radius 1.65 construction
  circle A3 centre (-15.675, -46) radius 1.65
  circle A4 centre (-15.675, -4) radius 1.65
  point P0 (0, 0)
  dimension "d131" = 42
  dimension "d132" = 17
  dimension "d133" = 21
  dimension "d135" = 8.5
  dimension "d136" = 15.825
  dimension "d137" = 3.5
  dimension "d138" = 21
  dimension "d139" = 3.3
  dimension "d140" = 3.3
  dimension "d141" = 3.3
extrude "Extrusion22" cut sketch "Sketch29" against normal blind 10
sketch "Sketch30" plane through (0, 7.5, 0) normal (0, 1, 0) x (1, 0, 0)
  circle A0 centre (-7.175, -4) radius 1.65 projected
  circle A1 centre (-7.175, -4) radius 2.1021
  circle A2 centre (-24.175, -46) radius 1.65 projected
  circle A3 centre (-24.175, -46) radius 2.9173
  point P0 (0, 0)
extrude "Extrusion23" add sketch "Sketch30" against normal blind 7.5 contours A0 | A1 | A2 | A3
sketch "Sketch31" plane through (0, 25, 0) normal (0, 1, 0) x (1, 0, 0)
  line L0 (-270, 0) -> (36.5142, 0)
  line L1 (36.5142, 0) -> (36.5142, -133.4678)
  line L2 (36.5142, -133.4678) -> (-270, -133.4678)
  line L3 (-270, -133.4678) -> (-270, 0)
  point P0 (0, 0)
extrude "Extrusion24" cut sketch "Sketch31" against normal blind 1000
sketch "Sketch32" plane through (-270, 7.5, 50) normal (1, 0, 0) x (0, 0, -1)
  line L0 (0, 0) -> (0, -7.5) projected
  line L1 (71.75, -10) -> (-21.75, -10) projected
  line L2 (0, 0) -> (10, 0)
  line L3 (10, 0) -> (10, -10)
  line L4 (10, -10) -> (0, -10)
  line L5 (0, -10) -> (0, 0)
  line L6 (64.25, 0) -> (-14.25, 0) projected
  line L7 (50, 0) -> (40, 0)
  line L8 (40, 0) -> (40, -10)
  line L9 (40, -10) -> (50, -10)
  line L10 (50, -10) -> (50, 0)
  point P0 (50, -7.5)
  dimension "d148" = 10
  dimension "d149" = 10
extrude "Extrusion25" add sketch "Sketch32" against normal blind 10 contours L2 L3 L1 L5 L0 | L6 L10 L1 L8
sketch "Sketch33" plane through (-270, 7.5, 50) normal (1, 0, 0) x (0, 0, -1)
  line L0 (0, 0) -> (50, 0) construction
  line L1 (40, -10) -> (10, -10) construction
  line L2 (0, 0) -> (10, -10) construction
  line L3 (10, -10) -> (0, -10) construction
  line L4 (0, -10) -> (10, 0) construction
  line L5 (40, -10) -> (50, 0) construction
  line L6 (50, -10) -> (40, 0) construction
  point P0 (50, -7.5)
  point P1 (5, -5)
  point P2 (45, -5)
hole "Hole6" at (-270, 2.5, 45) at (-270, 2.5, 5) direction (-1, 0, 0) diameter 6.25 depth 8
properties part number "mtv_frame(BrakeInBack)1-13"
